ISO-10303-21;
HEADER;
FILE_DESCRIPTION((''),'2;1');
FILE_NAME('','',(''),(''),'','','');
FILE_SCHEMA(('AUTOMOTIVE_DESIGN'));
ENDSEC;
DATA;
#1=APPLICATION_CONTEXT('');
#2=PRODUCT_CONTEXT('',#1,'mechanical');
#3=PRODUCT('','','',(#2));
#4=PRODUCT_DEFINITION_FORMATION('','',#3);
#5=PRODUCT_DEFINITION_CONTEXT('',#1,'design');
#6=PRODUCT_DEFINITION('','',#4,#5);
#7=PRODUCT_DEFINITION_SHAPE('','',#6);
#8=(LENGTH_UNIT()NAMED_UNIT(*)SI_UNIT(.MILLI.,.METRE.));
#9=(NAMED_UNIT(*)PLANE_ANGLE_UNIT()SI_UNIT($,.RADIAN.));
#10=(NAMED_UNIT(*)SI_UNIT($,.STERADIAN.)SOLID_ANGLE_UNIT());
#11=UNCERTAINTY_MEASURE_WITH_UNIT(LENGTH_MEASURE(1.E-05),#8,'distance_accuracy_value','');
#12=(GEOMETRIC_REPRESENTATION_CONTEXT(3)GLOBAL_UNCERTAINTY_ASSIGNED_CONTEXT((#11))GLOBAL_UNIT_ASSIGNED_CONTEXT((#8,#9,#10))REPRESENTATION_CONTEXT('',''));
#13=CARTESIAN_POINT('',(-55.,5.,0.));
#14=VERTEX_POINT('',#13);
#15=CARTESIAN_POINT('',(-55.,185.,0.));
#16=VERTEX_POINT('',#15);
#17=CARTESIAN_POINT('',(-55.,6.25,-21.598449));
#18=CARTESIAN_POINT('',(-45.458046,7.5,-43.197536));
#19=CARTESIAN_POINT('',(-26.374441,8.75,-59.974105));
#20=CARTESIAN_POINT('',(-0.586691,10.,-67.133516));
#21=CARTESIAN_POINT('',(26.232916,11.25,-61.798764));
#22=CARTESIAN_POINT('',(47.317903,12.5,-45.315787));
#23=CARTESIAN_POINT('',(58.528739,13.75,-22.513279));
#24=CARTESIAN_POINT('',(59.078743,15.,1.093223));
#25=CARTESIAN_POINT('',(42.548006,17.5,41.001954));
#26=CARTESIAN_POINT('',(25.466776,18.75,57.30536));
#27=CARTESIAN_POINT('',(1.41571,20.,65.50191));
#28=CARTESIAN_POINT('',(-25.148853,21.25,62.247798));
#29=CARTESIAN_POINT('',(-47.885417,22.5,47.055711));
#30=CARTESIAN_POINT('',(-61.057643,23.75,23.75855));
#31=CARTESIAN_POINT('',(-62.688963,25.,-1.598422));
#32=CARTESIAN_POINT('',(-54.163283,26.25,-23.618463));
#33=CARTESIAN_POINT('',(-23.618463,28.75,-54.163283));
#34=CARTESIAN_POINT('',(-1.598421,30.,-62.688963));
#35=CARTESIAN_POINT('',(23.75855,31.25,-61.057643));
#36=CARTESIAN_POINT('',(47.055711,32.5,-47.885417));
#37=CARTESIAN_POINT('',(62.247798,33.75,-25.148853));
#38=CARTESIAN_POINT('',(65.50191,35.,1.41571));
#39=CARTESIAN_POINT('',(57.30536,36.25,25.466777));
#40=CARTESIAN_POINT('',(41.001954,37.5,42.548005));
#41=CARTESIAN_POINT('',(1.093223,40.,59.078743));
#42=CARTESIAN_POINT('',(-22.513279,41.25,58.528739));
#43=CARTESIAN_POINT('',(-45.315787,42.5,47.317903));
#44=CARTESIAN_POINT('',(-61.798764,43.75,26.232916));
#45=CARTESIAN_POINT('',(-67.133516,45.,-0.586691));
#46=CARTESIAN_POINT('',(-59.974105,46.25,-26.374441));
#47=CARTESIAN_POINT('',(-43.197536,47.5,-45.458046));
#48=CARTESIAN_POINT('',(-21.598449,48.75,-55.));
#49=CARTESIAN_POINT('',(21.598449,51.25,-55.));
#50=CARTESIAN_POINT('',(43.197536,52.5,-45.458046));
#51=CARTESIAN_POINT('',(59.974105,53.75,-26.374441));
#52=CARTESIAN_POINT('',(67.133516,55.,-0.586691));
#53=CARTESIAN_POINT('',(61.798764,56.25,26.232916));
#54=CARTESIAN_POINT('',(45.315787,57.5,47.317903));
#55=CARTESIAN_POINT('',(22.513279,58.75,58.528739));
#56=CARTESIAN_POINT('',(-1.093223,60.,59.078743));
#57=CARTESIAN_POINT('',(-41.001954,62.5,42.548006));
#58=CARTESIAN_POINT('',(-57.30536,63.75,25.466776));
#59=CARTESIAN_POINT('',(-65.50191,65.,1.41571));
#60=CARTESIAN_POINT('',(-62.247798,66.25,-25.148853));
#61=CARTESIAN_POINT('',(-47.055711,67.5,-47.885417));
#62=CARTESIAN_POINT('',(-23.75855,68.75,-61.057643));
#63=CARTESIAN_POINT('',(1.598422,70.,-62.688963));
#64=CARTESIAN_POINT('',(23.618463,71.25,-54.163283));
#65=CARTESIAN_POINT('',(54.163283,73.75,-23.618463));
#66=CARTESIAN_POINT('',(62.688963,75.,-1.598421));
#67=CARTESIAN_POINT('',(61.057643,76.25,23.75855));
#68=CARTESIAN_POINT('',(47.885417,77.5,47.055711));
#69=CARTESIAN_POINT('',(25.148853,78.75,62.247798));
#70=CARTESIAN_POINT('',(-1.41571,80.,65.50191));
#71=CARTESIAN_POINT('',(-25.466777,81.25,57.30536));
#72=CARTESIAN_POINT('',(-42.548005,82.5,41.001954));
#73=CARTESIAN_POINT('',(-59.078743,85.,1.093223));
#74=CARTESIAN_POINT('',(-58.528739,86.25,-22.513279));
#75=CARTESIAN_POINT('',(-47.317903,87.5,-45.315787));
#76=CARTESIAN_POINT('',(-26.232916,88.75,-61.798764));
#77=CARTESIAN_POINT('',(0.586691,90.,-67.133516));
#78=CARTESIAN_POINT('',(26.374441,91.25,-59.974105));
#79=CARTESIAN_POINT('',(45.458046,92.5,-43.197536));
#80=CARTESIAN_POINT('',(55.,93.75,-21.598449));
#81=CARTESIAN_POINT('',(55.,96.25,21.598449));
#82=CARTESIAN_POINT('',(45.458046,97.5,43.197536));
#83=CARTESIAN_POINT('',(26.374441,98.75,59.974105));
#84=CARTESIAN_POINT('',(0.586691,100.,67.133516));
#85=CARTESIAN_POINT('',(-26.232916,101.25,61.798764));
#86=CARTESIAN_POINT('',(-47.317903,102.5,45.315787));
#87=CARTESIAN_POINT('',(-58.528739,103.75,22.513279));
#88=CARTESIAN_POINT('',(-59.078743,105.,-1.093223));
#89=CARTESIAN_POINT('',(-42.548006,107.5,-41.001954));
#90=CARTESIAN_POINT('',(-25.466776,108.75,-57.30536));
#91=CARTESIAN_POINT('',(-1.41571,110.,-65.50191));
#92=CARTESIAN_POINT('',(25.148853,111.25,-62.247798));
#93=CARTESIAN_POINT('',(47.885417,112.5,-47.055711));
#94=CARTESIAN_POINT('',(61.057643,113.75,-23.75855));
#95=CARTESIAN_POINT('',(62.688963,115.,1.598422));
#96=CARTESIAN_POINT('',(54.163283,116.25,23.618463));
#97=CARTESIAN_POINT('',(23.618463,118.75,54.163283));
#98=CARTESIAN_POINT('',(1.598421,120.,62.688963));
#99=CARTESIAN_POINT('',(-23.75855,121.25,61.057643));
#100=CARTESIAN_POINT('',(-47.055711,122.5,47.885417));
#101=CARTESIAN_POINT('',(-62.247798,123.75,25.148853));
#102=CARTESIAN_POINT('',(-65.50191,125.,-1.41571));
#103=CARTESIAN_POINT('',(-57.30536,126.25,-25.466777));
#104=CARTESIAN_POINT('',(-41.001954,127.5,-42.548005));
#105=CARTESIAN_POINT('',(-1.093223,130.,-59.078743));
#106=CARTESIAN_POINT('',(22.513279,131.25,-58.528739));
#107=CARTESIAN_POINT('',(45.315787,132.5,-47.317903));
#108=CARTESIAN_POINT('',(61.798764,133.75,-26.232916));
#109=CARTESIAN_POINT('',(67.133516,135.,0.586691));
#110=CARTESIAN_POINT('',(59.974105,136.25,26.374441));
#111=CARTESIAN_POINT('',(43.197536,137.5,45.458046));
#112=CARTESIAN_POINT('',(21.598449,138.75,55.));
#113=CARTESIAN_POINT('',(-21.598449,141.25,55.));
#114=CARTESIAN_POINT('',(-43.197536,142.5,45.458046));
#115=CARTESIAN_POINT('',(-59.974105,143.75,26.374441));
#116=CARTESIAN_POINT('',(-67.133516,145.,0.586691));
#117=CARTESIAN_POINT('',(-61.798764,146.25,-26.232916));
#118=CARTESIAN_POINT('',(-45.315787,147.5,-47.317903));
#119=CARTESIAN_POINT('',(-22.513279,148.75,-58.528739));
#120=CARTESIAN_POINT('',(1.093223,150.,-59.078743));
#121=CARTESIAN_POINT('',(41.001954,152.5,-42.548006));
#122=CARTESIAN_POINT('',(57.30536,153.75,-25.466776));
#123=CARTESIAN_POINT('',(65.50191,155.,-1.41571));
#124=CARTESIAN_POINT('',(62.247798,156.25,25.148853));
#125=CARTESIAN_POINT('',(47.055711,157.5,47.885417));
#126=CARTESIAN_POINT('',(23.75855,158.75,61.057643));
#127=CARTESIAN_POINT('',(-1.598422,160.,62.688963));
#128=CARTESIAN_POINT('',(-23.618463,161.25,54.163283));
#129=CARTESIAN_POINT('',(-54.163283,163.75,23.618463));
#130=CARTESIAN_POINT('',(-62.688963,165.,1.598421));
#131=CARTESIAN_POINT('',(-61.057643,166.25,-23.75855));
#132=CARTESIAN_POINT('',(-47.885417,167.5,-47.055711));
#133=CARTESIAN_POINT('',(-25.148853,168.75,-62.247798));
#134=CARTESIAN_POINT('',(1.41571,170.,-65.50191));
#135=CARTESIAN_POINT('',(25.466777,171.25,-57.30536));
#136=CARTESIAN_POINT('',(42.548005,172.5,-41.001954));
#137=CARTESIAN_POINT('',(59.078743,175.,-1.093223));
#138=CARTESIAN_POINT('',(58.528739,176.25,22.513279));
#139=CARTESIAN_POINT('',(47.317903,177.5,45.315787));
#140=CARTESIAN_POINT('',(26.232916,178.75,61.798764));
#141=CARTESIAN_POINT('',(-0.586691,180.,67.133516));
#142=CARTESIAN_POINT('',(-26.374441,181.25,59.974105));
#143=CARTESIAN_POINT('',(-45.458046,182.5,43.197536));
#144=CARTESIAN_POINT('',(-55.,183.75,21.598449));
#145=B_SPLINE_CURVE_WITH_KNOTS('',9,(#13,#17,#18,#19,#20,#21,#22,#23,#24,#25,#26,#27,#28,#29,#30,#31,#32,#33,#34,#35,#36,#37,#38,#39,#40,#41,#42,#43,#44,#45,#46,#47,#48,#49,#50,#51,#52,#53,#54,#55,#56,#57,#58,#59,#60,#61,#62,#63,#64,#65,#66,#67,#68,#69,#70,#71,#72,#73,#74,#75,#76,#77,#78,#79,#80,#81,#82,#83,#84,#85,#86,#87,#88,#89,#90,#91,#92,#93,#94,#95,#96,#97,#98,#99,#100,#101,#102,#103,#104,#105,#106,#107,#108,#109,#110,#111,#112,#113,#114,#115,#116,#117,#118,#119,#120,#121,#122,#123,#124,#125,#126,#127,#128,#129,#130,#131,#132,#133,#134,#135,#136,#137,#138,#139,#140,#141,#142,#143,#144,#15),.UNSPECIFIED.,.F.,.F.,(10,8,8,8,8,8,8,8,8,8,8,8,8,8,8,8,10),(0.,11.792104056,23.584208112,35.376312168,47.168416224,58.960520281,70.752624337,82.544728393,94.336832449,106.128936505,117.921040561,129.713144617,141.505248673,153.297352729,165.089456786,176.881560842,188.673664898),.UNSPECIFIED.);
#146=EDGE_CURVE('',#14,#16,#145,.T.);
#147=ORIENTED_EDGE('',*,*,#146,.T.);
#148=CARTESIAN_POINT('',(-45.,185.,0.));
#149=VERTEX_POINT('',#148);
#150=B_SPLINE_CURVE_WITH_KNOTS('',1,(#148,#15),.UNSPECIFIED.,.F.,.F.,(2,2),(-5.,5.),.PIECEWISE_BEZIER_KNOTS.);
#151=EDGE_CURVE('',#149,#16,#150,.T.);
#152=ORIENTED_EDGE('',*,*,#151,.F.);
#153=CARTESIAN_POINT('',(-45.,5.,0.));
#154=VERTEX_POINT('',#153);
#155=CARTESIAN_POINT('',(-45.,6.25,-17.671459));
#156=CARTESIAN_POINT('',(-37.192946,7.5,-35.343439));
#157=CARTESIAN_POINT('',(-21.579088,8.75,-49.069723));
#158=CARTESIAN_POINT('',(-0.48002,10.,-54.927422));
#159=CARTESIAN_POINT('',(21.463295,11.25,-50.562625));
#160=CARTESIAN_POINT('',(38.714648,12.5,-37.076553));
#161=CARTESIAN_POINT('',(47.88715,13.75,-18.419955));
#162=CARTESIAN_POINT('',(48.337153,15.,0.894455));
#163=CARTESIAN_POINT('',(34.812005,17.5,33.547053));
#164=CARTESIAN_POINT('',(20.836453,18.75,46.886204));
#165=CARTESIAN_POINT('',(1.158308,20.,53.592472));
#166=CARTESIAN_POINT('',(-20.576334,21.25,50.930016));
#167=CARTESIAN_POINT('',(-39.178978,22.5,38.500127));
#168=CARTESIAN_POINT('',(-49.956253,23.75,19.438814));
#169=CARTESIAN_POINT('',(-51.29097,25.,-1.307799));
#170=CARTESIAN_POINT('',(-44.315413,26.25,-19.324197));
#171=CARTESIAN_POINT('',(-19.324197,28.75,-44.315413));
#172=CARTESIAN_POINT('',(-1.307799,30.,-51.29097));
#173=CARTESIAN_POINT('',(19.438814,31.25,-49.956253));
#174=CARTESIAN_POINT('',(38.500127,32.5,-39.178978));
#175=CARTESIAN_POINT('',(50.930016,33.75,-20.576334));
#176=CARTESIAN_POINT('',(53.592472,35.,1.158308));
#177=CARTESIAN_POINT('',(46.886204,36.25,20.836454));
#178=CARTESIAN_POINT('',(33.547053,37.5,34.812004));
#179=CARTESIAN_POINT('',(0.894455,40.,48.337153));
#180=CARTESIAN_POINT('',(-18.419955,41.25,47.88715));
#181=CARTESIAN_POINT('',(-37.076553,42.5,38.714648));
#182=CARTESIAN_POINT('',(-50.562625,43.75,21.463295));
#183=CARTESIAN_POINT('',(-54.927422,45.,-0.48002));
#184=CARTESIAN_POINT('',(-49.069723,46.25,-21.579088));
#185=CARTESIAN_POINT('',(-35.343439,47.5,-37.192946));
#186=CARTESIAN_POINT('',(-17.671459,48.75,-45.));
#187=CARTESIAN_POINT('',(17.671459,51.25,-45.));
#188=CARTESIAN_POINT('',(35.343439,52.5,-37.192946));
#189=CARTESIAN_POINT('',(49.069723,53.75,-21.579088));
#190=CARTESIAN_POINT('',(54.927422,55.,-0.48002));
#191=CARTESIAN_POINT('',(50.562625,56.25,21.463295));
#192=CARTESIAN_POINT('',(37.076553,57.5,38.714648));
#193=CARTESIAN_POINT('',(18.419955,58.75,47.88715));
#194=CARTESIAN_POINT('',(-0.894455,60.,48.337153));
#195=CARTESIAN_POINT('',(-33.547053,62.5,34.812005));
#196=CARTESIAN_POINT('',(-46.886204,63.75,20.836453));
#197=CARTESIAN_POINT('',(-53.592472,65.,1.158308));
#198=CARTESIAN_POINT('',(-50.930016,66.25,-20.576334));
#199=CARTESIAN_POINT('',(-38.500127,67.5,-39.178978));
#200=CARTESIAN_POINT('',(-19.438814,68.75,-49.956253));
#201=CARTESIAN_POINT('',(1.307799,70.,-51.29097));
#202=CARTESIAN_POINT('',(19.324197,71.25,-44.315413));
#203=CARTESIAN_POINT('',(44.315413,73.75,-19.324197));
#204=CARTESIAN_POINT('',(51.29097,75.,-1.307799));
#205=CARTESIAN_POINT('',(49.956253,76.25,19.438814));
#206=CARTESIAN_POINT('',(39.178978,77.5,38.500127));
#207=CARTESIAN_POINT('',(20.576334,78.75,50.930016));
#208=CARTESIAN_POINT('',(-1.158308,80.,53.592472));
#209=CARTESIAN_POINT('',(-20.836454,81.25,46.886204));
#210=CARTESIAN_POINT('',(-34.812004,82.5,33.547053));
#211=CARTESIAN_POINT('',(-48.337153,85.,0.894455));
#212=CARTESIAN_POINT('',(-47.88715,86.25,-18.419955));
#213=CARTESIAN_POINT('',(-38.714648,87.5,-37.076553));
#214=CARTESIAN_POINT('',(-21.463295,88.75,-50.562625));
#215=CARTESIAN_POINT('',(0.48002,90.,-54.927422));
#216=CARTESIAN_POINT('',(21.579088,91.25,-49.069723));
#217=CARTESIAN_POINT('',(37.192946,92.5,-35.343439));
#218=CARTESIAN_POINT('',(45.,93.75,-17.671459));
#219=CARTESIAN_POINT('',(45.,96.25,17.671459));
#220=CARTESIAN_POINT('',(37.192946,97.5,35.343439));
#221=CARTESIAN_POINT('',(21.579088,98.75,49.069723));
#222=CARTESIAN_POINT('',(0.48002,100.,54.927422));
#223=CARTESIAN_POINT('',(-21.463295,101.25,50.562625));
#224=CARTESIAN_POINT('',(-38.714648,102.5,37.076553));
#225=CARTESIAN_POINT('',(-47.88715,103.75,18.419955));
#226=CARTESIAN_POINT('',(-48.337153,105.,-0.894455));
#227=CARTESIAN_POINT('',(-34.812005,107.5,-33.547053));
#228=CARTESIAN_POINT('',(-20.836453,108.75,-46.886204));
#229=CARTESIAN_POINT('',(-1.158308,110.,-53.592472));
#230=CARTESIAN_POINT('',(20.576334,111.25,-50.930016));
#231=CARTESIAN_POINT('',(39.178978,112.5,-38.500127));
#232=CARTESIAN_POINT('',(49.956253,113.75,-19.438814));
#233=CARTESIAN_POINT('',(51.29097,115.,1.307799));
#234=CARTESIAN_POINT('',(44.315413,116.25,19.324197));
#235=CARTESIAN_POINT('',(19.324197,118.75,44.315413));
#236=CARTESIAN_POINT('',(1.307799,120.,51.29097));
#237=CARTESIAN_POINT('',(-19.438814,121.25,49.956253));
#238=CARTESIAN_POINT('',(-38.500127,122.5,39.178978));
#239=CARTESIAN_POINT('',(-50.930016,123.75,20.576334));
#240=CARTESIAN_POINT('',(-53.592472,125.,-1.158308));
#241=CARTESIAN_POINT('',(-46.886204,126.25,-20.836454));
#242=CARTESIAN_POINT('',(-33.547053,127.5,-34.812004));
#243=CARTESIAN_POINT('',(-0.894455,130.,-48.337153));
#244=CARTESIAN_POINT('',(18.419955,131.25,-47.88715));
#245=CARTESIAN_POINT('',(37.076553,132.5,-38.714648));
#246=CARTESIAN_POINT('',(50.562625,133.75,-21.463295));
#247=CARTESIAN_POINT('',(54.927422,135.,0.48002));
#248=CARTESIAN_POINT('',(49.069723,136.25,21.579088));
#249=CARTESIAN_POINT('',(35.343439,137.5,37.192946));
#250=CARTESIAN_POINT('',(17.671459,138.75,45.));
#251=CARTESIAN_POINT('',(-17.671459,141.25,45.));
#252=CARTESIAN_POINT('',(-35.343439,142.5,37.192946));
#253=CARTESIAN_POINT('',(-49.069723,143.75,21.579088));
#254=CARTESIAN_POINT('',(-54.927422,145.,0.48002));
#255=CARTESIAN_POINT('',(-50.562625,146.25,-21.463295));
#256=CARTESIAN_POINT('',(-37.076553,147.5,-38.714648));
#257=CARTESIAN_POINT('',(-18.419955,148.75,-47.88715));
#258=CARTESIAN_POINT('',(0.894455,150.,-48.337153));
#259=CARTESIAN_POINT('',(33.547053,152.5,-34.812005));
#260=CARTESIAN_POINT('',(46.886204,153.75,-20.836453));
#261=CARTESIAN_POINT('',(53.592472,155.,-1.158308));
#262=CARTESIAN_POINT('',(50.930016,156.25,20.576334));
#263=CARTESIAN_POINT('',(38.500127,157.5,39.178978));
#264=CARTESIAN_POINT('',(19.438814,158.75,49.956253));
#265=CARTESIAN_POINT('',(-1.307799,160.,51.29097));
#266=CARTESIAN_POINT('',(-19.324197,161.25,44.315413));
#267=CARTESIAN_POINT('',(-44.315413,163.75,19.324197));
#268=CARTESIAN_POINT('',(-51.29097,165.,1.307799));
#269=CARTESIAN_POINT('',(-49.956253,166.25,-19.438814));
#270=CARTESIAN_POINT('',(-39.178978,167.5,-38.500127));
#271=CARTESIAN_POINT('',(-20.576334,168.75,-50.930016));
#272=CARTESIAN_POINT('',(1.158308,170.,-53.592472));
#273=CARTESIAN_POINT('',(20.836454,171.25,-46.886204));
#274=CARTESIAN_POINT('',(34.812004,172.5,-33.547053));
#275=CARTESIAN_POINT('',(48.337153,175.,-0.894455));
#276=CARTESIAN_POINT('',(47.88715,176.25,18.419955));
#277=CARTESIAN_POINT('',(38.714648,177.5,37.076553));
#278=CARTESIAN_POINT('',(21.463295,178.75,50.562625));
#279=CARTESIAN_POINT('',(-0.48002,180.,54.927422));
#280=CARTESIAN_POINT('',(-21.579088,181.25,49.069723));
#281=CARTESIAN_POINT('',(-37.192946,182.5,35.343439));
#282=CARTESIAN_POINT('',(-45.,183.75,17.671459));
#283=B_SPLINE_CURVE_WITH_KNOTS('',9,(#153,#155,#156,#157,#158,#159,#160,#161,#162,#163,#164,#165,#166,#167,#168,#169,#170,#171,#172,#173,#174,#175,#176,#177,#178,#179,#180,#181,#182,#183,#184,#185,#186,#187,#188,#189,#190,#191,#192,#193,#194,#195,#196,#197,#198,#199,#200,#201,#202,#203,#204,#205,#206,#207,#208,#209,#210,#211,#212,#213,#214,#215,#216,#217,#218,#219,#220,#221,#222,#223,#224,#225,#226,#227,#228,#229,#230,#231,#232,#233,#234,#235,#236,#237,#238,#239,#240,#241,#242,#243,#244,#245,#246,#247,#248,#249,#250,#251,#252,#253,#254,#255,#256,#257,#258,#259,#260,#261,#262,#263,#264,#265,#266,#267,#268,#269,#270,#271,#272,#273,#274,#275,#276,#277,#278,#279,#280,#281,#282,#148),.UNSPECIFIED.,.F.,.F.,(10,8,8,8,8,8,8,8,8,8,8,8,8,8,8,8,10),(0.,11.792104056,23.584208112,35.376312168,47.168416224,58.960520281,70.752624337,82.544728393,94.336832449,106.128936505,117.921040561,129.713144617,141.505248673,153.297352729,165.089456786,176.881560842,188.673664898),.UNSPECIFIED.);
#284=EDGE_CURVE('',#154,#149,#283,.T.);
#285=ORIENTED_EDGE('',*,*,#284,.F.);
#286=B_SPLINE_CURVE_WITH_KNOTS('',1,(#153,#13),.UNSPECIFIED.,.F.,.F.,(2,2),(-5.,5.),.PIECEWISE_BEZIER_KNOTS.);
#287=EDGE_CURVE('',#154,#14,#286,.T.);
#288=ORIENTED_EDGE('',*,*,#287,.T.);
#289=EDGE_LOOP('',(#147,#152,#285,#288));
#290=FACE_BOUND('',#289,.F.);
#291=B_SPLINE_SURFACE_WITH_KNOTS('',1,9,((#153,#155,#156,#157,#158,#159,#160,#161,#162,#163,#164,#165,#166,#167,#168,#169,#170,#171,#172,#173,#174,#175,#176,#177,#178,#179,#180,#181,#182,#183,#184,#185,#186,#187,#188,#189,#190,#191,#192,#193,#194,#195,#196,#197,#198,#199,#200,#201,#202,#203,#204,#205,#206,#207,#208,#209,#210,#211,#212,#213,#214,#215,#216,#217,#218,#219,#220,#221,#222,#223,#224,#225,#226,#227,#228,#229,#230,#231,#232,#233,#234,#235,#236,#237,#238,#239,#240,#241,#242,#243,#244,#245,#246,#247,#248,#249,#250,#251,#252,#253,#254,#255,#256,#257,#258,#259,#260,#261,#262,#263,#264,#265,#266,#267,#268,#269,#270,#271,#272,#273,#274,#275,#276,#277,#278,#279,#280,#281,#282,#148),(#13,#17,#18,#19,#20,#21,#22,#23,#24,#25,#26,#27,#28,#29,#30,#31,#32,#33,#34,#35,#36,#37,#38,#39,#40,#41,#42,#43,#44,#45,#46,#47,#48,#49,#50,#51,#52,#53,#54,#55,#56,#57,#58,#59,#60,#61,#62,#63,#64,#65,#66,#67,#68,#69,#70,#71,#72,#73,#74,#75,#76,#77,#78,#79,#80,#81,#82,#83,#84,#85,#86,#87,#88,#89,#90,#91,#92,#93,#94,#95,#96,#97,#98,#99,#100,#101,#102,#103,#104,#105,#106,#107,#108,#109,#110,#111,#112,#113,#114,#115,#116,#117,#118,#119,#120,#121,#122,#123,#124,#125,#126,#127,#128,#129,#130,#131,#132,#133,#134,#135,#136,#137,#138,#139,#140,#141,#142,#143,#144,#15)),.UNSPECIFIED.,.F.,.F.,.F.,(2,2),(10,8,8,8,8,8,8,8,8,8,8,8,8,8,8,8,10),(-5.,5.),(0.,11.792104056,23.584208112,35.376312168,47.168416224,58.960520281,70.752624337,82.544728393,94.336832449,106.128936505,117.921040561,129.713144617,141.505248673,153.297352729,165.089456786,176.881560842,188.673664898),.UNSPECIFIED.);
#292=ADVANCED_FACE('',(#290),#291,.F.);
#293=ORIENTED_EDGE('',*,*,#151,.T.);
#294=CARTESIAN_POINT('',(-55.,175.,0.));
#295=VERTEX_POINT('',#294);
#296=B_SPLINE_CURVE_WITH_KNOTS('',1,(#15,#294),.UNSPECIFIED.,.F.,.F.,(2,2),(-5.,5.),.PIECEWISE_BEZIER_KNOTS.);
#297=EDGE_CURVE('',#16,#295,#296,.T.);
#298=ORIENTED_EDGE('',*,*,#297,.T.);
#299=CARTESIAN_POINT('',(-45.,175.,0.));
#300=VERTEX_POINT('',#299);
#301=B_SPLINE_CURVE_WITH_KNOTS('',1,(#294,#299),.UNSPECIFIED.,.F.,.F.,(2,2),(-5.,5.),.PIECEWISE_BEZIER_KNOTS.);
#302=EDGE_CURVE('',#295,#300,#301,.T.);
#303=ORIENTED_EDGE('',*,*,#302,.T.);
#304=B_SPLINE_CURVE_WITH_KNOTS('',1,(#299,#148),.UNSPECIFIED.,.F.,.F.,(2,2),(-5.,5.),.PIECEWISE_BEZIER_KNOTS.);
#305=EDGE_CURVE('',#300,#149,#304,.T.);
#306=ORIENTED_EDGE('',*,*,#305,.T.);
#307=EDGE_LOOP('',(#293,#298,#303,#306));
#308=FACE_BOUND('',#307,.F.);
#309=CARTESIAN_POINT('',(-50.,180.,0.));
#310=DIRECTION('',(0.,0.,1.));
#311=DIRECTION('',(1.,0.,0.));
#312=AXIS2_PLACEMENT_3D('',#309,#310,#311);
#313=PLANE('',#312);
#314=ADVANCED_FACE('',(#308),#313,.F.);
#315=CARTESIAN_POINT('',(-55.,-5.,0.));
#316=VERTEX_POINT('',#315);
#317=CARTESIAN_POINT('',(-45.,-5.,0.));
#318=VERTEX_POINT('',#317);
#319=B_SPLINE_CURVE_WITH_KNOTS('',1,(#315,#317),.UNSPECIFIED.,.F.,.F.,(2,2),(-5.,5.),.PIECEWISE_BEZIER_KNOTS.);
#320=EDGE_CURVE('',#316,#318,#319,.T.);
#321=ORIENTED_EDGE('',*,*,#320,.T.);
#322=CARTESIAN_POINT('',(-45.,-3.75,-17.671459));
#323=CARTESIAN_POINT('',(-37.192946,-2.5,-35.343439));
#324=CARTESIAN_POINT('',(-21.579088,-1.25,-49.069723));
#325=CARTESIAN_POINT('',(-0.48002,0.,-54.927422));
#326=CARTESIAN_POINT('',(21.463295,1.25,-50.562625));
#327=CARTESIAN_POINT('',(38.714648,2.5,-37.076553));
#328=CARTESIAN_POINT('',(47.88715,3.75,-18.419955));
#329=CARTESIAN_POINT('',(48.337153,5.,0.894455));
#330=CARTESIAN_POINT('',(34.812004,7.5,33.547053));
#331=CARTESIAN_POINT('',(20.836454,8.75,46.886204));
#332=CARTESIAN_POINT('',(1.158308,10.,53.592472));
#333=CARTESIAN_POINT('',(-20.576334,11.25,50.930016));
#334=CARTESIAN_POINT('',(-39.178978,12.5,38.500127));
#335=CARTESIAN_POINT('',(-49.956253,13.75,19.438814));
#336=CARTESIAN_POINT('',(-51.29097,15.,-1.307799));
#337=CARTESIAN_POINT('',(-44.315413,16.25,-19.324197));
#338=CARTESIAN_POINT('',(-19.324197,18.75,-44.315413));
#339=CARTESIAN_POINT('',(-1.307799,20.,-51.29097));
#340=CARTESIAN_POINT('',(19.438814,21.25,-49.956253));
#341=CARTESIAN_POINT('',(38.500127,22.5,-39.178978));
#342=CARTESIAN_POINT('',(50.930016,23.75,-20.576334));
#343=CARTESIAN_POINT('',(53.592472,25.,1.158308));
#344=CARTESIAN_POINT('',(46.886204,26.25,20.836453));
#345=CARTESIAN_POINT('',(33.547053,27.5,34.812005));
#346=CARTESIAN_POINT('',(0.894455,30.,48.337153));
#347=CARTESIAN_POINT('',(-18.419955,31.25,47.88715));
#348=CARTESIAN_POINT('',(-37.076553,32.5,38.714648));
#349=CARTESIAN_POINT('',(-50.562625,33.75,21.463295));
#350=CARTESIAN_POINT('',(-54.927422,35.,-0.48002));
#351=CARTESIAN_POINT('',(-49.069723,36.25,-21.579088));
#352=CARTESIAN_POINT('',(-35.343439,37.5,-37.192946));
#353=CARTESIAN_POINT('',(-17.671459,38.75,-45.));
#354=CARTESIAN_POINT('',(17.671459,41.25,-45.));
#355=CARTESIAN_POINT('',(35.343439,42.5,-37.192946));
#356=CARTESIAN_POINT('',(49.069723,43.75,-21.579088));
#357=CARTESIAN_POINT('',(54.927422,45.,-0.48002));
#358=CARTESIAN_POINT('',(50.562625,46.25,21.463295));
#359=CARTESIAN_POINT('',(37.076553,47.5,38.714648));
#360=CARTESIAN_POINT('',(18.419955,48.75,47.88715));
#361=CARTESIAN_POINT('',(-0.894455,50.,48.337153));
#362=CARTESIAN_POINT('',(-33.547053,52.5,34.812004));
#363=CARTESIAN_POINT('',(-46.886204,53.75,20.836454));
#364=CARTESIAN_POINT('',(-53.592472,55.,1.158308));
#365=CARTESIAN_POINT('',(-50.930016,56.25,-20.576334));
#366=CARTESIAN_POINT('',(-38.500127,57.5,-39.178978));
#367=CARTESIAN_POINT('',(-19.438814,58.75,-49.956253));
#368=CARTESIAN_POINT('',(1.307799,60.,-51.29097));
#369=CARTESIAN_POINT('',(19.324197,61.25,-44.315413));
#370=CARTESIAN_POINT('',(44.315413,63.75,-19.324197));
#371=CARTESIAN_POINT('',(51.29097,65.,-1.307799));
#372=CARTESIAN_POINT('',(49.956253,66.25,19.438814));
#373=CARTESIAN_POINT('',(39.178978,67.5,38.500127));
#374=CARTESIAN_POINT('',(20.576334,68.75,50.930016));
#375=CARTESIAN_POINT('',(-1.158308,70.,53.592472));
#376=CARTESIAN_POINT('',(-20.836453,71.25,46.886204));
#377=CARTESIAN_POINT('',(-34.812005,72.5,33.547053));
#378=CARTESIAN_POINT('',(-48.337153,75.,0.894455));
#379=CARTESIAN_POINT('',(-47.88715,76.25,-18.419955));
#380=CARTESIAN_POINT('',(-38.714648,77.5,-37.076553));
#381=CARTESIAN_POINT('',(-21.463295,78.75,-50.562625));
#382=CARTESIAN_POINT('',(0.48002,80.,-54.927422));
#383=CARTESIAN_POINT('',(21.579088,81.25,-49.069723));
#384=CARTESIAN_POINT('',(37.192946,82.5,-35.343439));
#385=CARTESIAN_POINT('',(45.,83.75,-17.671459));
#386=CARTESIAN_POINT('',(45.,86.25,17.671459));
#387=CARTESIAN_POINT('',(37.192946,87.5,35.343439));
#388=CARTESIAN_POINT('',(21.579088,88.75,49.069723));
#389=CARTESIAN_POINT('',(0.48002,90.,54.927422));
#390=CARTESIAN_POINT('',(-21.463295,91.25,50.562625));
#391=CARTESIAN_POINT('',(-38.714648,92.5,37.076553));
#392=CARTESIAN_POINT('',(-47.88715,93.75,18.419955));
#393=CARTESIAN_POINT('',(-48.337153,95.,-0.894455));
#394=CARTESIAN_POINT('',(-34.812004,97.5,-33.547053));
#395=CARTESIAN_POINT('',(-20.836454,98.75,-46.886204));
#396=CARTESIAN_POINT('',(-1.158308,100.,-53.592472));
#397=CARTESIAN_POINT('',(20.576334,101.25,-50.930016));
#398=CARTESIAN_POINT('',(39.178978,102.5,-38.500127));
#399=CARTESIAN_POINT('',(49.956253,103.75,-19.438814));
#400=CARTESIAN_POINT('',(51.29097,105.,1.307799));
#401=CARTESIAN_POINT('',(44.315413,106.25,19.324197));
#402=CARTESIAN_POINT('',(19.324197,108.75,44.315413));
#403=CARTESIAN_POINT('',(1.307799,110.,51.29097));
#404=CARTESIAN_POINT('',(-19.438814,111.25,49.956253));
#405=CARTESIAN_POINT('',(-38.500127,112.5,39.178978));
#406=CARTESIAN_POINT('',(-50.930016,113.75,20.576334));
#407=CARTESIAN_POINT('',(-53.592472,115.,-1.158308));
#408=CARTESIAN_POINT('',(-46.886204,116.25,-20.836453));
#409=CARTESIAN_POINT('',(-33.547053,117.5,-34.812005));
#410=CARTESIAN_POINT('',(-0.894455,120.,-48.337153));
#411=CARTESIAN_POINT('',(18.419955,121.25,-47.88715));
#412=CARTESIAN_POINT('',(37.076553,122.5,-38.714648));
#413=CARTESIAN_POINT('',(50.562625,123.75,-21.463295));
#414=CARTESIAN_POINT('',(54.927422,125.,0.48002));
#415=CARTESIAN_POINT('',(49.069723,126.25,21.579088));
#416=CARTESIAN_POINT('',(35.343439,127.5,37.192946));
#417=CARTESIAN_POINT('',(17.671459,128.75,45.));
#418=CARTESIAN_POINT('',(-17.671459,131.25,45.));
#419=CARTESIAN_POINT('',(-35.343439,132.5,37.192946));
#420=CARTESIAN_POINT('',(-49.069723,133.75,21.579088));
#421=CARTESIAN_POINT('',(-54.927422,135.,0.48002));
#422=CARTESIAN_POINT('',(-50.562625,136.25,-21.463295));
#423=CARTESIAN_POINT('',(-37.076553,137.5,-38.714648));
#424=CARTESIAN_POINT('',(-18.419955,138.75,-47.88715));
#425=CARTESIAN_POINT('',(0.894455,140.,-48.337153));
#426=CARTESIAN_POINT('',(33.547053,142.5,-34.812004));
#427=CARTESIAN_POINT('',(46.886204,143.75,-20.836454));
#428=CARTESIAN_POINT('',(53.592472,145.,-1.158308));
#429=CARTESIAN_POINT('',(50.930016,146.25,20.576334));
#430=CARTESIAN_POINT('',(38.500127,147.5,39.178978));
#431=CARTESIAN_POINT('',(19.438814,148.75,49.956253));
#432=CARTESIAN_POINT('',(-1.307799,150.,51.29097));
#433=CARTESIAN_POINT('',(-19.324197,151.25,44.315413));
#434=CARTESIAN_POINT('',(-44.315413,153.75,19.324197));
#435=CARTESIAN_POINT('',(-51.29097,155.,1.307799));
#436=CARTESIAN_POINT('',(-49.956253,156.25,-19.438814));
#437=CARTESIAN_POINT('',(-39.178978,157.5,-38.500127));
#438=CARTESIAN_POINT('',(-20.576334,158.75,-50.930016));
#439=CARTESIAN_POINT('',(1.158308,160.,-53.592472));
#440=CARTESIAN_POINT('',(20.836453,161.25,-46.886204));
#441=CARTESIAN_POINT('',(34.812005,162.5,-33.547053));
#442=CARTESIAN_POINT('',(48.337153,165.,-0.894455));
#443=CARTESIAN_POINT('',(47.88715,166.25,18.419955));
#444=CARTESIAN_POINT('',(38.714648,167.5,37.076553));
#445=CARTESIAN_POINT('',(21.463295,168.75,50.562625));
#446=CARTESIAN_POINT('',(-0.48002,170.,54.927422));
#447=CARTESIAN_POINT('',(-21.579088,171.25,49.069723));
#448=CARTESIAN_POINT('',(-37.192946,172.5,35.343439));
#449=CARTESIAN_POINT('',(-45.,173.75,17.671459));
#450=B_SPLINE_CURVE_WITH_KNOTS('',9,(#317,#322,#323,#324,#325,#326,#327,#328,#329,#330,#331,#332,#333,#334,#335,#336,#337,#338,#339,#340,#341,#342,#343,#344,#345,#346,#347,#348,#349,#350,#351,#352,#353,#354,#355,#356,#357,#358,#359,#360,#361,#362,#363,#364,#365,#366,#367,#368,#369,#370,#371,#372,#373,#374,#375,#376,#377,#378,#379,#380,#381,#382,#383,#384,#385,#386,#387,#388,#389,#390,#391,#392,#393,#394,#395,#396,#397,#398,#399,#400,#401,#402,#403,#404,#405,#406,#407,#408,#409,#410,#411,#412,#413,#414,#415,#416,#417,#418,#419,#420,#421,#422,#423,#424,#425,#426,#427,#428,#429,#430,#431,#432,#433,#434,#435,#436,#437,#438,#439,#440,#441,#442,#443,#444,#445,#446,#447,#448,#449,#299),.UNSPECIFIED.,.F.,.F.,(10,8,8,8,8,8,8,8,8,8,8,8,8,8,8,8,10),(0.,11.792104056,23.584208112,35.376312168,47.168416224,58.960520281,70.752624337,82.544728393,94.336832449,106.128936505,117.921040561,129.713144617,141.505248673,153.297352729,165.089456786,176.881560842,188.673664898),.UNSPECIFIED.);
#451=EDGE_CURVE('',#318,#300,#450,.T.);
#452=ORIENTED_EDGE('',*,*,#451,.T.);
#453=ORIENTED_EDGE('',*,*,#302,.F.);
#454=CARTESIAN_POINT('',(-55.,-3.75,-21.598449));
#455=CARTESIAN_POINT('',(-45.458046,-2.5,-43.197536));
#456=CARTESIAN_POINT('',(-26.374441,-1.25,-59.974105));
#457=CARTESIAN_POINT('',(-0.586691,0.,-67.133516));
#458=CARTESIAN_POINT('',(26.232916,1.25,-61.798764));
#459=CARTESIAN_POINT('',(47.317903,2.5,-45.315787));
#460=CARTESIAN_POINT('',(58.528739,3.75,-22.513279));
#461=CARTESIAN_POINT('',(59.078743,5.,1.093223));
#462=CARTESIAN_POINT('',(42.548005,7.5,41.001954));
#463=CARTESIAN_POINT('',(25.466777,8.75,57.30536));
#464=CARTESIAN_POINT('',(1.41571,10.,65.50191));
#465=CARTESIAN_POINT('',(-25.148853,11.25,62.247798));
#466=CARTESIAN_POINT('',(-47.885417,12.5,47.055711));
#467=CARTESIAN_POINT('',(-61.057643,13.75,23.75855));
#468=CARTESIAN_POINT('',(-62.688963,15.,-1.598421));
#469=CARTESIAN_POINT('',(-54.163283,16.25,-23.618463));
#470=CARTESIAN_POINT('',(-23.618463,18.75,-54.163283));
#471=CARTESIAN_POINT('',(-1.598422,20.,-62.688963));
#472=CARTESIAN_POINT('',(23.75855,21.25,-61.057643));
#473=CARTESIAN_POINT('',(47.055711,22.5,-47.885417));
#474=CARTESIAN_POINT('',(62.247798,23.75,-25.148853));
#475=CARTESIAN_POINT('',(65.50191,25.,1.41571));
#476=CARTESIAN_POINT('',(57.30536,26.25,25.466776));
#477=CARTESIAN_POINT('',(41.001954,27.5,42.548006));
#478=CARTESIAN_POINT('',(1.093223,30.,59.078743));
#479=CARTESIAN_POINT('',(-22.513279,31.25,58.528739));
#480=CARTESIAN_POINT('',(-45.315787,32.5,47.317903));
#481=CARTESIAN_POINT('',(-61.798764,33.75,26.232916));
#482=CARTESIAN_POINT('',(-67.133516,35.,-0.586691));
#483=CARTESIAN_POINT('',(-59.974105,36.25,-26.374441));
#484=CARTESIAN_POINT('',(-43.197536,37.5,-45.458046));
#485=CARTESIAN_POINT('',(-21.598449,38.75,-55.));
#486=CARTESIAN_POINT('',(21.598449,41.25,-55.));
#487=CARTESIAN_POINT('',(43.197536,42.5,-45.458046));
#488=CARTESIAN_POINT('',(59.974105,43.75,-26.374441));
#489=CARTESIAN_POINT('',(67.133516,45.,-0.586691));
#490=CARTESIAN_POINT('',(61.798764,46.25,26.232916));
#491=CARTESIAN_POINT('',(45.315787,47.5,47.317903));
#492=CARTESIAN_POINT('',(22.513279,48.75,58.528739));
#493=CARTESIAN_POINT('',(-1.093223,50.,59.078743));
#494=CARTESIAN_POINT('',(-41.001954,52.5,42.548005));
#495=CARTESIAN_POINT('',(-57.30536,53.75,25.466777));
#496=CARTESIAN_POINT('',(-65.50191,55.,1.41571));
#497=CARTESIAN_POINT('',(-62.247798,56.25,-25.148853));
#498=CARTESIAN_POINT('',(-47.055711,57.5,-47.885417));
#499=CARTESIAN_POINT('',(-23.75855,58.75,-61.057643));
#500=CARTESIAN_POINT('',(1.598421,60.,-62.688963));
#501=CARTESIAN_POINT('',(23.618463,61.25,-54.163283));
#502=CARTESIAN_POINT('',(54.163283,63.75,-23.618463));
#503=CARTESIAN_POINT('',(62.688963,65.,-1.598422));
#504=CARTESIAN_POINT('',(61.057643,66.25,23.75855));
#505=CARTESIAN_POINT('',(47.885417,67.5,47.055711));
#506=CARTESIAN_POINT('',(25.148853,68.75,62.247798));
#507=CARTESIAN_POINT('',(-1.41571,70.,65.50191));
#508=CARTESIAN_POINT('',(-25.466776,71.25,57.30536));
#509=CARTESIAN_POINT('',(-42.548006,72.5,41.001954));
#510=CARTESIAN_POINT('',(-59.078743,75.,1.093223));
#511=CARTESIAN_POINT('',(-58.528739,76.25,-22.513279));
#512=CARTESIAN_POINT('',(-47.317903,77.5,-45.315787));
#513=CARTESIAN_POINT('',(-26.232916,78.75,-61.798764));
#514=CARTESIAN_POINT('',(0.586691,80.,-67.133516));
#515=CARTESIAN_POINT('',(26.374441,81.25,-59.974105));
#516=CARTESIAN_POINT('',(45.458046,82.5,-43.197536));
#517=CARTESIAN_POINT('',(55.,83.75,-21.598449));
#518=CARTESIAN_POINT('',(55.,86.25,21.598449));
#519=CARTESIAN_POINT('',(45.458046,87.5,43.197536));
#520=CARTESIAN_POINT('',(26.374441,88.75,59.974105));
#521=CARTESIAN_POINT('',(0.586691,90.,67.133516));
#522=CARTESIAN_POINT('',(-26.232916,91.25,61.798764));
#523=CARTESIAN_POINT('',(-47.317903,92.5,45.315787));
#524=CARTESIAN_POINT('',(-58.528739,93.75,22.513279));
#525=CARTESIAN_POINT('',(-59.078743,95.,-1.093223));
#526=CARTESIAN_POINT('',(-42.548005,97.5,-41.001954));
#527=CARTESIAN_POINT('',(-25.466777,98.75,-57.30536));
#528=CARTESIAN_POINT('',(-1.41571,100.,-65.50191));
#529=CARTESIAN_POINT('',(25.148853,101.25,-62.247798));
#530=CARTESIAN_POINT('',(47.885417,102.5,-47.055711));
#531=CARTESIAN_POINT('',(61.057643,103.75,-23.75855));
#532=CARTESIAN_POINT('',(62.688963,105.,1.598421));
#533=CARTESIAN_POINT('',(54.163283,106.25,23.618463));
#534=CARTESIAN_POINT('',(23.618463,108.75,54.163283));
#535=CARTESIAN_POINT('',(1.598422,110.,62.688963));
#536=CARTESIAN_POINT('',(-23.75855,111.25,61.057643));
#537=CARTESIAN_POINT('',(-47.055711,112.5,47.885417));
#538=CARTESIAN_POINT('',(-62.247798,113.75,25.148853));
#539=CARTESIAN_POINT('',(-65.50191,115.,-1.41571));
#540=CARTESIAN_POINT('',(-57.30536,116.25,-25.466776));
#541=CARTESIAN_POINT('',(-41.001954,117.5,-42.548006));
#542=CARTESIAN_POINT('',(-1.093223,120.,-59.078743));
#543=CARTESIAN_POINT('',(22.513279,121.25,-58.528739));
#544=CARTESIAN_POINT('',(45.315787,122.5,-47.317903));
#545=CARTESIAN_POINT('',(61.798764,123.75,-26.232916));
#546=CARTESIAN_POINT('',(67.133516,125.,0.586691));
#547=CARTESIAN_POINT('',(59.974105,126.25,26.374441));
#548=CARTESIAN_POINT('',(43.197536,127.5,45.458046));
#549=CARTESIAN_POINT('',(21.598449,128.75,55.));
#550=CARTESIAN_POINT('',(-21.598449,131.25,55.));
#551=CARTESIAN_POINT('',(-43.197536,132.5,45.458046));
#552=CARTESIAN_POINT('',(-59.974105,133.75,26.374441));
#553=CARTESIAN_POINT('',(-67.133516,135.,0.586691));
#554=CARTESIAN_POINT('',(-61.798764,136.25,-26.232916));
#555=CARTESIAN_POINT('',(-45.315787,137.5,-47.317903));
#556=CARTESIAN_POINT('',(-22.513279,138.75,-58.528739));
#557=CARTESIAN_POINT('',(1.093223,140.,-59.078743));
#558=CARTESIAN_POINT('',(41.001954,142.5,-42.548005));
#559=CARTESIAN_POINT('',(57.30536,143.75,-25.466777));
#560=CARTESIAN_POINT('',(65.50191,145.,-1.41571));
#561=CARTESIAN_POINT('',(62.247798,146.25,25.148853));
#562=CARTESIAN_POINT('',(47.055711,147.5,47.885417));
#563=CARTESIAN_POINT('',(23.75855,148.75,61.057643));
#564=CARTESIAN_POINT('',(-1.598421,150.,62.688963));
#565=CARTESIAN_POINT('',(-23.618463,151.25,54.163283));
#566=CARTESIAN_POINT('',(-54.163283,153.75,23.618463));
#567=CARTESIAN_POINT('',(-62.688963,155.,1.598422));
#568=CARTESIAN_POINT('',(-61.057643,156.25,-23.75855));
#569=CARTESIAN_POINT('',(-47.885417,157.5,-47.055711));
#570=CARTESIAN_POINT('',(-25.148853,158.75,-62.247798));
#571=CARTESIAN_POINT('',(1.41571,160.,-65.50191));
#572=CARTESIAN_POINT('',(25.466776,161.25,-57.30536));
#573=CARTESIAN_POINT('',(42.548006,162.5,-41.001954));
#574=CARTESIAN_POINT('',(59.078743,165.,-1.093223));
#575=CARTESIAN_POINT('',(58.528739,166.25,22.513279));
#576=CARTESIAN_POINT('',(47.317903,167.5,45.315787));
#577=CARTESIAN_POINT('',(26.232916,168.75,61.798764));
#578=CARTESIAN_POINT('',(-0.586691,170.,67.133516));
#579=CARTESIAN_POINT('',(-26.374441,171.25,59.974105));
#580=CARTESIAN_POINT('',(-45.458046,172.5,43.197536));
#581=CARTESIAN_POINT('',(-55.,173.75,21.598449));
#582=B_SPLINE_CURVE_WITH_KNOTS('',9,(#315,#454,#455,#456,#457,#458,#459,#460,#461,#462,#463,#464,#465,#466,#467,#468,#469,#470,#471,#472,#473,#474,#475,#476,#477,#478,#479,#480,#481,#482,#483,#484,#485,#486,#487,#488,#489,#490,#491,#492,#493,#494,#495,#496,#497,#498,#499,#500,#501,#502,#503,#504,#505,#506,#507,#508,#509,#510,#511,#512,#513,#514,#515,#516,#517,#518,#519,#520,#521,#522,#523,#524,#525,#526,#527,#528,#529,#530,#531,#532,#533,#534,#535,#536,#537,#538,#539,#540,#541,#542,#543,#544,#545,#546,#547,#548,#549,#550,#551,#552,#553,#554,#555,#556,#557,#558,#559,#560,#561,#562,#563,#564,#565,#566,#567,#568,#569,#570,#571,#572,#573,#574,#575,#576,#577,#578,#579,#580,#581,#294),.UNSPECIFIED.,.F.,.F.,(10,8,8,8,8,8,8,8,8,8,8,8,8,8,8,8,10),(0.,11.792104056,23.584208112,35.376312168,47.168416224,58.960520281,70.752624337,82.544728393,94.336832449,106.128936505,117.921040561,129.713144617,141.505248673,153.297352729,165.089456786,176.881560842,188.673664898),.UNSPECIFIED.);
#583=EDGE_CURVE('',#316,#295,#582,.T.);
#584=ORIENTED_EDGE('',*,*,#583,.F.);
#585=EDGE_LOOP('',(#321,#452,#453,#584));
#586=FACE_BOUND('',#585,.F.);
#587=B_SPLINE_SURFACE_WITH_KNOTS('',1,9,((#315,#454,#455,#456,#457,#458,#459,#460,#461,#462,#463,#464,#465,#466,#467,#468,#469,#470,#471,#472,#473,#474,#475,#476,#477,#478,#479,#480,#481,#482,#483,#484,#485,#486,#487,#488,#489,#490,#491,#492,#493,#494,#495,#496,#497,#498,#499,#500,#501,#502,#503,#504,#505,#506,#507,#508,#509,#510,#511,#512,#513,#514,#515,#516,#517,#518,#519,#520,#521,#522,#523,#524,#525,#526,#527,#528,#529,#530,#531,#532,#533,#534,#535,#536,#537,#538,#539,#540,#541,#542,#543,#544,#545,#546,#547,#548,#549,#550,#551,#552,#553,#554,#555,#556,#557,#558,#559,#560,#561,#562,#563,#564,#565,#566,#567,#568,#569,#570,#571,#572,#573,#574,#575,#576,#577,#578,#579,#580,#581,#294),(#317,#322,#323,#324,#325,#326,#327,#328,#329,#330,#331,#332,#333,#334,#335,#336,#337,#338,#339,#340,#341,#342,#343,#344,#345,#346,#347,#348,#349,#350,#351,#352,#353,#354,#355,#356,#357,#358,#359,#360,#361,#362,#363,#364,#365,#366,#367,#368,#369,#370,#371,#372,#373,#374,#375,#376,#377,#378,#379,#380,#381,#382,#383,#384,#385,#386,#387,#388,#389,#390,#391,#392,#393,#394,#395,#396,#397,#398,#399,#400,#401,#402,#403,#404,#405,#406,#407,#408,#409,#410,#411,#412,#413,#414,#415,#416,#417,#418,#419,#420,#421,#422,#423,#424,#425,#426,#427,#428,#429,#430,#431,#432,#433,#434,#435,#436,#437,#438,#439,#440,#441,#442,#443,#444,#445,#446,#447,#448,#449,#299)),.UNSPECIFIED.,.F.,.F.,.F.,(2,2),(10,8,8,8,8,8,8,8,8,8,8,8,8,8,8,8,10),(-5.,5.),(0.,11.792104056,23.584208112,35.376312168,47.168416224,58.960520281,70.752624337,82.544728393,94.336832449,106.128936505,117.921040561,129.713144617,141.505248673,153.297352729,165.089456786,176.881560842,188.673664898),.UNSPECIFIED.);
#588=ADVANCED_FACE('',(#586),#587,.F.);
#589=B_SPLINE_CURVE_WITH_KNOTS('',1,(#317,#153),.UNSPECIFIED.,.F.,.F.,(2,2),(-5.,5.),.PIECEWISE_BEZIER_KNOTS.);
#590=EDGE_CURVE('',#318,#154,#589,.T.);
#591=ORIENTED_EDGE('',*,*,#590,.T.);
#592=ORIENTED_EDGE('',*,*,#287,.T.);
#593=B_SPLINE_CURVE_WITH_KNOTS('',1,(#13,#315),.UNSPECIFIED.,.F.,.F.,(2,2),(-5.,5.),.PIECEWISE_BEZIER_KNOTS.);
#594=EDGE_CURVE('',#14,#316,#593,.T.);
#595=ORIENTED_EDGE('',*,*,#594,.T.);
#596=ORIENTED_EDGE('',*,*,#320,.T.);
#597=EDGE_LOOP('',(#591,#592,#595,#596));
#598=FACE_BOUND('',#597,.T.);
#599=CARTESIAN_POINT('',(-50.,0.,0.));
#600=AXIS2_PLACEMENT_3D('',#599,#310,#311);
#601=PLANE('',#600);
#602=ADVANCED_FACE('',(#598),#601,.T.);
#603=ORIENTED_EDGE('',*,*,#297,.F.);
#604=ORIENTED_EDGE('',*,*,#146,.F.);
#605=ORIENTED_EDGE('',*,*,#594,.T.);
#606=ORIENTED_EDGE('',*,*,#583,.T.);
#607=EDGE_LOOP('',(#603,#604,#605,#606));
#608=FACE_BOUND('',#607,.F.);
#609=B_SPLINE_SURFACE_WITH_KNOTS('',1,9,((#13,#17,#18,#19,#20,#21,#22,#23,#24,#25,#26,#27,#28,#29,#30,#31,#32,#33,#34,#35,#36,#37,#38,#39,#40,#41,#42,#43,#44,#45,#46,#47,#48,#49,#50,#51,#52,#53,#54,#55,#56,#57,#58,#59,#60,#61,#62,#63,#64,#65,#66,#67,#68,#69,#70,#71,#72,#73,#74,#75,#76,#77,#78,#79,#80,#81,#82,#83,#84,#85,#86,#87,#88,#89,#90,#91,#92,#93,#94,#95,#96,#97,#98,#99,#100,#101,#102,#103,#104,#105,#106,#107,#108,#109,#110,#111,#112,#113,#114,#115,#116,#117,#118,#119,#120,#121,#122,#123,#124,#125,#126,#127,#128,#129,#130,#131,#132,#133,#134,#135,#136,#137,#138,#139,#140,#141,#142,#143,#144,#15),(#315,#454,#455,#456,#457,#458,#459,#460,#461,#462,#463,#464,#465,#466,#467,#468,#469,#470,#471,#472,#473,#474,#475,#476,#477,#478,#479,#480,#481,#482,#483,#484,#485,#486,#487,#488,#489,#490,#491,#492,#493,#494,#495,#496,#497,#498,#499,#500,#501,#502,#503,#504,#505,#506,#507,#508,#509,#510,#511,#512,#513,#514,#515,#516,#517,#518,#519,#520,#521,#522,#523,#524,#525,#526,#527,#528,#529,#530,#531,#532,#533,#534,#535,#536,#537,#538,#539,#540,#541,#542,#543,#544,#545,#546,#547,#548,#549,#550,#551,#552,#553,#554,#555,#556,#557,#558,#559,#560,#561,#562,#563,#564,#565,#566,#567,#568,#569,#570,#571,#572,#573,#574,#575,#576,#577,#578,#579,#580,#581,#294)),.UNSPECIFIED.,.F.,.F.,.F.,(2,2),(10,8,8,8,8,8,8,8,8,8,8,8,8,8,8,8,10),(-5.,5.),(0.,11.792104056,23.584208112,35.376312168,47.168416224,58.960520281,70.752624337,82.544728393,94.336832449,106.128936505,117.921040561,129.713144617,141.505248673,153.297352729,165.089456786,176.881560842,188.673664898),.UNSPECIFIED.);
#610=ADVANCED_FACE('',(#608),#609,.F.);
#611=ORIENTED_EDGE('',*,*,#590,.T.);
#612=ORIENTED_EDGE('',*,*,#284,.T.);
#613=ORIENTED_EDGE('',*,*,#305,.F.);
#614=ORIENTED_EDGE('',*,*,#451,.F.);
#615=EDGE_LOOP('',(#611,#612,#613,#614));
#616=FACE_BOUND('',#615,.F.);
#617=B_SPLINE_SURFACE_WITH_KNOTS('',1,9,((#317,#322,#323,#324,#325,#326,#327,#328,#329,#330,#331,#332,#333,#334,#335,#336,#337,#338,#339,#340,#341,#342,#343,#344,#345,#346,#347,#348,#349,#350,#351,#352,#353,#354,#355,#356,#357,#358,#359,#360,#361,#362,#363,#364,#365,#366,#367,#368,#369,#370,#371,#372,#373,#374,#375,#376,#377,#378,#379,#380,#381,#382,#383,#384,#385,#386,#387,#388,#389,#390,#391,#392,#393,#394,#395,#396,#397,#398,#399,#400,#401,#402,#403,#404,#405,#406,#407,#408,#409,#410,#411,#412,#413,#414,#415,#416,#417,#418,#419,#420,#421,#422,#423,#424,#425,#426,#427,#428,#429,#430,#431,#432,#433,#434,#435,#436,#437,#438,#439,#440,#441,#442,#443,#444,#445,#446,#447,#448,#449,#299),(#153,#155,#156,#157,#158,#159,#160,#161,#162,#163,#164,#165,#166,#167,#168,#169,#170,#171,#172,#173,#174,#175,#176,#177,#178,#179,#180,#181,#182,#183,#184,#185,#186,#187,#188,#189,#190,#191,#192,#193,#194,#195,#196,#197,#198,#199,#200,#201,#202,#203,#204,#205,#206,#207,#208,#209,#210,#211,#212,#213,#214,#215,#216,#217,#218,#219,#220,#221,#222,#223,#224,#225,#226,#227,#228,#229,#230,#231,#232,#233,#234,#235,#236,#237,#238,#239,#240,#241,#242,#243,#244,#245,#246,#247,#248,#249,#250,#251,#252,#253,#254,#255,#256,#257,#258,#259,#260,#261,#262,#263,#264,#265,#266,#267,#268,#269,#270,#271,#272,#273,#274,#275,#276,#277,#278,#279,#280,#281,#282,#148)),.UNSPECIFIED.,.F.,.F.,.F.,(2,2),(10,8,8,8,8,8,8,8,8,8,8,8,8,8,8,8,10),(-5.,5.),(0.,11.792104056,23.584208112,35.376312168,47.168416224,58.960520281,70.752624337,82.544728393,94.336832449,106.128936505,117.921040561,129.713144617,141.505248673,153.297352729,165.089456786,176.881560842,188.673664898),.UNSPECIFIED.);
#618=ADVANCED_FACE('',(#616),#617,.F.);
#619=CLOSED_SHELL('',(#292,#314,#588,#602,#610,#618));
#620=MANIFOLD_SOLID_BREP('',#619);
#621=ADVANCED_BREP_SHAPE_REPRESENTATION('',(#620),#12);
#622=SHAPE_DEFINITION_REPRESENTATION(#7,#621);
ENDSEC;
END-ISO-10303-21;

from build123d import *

# Parameters (mm, degrees)
SWEEP1_PITCH       = 20
SWEEP1_HEIGHT      = 180
SWEEP1_RADIUS      = 50
SWEEP1_START_ANGLE = -90
SKETCH2_W          = 10
SKETCH2_H          = 10


with BuildPart() as part:
    # Sweep1: sweep along a helix
    with BuildLine() as sweep1_path:
        add(Helix(SWEEP1_PITCH, SWEEP1_HEIGHT, SWEEP1_RADIUS, center=(0, 0, 0), direction=(0, 1, 0), lefthand=True, mode=Mode.PRIVATE).rotate(Axis((0, 0, 0), (0, 1, 0)), SWEEP1_START_ANGLE))
    # Sketch2 → Sweep1 (sweep)
    with BuildSketch(Plane.XY):
        with Locations((-50, 0)):
            Rectangle(SKETCH2_W, SKETCH2_H)
    sweep(path=sweep1_path.line, is_frenet=True)


solid = part.part
